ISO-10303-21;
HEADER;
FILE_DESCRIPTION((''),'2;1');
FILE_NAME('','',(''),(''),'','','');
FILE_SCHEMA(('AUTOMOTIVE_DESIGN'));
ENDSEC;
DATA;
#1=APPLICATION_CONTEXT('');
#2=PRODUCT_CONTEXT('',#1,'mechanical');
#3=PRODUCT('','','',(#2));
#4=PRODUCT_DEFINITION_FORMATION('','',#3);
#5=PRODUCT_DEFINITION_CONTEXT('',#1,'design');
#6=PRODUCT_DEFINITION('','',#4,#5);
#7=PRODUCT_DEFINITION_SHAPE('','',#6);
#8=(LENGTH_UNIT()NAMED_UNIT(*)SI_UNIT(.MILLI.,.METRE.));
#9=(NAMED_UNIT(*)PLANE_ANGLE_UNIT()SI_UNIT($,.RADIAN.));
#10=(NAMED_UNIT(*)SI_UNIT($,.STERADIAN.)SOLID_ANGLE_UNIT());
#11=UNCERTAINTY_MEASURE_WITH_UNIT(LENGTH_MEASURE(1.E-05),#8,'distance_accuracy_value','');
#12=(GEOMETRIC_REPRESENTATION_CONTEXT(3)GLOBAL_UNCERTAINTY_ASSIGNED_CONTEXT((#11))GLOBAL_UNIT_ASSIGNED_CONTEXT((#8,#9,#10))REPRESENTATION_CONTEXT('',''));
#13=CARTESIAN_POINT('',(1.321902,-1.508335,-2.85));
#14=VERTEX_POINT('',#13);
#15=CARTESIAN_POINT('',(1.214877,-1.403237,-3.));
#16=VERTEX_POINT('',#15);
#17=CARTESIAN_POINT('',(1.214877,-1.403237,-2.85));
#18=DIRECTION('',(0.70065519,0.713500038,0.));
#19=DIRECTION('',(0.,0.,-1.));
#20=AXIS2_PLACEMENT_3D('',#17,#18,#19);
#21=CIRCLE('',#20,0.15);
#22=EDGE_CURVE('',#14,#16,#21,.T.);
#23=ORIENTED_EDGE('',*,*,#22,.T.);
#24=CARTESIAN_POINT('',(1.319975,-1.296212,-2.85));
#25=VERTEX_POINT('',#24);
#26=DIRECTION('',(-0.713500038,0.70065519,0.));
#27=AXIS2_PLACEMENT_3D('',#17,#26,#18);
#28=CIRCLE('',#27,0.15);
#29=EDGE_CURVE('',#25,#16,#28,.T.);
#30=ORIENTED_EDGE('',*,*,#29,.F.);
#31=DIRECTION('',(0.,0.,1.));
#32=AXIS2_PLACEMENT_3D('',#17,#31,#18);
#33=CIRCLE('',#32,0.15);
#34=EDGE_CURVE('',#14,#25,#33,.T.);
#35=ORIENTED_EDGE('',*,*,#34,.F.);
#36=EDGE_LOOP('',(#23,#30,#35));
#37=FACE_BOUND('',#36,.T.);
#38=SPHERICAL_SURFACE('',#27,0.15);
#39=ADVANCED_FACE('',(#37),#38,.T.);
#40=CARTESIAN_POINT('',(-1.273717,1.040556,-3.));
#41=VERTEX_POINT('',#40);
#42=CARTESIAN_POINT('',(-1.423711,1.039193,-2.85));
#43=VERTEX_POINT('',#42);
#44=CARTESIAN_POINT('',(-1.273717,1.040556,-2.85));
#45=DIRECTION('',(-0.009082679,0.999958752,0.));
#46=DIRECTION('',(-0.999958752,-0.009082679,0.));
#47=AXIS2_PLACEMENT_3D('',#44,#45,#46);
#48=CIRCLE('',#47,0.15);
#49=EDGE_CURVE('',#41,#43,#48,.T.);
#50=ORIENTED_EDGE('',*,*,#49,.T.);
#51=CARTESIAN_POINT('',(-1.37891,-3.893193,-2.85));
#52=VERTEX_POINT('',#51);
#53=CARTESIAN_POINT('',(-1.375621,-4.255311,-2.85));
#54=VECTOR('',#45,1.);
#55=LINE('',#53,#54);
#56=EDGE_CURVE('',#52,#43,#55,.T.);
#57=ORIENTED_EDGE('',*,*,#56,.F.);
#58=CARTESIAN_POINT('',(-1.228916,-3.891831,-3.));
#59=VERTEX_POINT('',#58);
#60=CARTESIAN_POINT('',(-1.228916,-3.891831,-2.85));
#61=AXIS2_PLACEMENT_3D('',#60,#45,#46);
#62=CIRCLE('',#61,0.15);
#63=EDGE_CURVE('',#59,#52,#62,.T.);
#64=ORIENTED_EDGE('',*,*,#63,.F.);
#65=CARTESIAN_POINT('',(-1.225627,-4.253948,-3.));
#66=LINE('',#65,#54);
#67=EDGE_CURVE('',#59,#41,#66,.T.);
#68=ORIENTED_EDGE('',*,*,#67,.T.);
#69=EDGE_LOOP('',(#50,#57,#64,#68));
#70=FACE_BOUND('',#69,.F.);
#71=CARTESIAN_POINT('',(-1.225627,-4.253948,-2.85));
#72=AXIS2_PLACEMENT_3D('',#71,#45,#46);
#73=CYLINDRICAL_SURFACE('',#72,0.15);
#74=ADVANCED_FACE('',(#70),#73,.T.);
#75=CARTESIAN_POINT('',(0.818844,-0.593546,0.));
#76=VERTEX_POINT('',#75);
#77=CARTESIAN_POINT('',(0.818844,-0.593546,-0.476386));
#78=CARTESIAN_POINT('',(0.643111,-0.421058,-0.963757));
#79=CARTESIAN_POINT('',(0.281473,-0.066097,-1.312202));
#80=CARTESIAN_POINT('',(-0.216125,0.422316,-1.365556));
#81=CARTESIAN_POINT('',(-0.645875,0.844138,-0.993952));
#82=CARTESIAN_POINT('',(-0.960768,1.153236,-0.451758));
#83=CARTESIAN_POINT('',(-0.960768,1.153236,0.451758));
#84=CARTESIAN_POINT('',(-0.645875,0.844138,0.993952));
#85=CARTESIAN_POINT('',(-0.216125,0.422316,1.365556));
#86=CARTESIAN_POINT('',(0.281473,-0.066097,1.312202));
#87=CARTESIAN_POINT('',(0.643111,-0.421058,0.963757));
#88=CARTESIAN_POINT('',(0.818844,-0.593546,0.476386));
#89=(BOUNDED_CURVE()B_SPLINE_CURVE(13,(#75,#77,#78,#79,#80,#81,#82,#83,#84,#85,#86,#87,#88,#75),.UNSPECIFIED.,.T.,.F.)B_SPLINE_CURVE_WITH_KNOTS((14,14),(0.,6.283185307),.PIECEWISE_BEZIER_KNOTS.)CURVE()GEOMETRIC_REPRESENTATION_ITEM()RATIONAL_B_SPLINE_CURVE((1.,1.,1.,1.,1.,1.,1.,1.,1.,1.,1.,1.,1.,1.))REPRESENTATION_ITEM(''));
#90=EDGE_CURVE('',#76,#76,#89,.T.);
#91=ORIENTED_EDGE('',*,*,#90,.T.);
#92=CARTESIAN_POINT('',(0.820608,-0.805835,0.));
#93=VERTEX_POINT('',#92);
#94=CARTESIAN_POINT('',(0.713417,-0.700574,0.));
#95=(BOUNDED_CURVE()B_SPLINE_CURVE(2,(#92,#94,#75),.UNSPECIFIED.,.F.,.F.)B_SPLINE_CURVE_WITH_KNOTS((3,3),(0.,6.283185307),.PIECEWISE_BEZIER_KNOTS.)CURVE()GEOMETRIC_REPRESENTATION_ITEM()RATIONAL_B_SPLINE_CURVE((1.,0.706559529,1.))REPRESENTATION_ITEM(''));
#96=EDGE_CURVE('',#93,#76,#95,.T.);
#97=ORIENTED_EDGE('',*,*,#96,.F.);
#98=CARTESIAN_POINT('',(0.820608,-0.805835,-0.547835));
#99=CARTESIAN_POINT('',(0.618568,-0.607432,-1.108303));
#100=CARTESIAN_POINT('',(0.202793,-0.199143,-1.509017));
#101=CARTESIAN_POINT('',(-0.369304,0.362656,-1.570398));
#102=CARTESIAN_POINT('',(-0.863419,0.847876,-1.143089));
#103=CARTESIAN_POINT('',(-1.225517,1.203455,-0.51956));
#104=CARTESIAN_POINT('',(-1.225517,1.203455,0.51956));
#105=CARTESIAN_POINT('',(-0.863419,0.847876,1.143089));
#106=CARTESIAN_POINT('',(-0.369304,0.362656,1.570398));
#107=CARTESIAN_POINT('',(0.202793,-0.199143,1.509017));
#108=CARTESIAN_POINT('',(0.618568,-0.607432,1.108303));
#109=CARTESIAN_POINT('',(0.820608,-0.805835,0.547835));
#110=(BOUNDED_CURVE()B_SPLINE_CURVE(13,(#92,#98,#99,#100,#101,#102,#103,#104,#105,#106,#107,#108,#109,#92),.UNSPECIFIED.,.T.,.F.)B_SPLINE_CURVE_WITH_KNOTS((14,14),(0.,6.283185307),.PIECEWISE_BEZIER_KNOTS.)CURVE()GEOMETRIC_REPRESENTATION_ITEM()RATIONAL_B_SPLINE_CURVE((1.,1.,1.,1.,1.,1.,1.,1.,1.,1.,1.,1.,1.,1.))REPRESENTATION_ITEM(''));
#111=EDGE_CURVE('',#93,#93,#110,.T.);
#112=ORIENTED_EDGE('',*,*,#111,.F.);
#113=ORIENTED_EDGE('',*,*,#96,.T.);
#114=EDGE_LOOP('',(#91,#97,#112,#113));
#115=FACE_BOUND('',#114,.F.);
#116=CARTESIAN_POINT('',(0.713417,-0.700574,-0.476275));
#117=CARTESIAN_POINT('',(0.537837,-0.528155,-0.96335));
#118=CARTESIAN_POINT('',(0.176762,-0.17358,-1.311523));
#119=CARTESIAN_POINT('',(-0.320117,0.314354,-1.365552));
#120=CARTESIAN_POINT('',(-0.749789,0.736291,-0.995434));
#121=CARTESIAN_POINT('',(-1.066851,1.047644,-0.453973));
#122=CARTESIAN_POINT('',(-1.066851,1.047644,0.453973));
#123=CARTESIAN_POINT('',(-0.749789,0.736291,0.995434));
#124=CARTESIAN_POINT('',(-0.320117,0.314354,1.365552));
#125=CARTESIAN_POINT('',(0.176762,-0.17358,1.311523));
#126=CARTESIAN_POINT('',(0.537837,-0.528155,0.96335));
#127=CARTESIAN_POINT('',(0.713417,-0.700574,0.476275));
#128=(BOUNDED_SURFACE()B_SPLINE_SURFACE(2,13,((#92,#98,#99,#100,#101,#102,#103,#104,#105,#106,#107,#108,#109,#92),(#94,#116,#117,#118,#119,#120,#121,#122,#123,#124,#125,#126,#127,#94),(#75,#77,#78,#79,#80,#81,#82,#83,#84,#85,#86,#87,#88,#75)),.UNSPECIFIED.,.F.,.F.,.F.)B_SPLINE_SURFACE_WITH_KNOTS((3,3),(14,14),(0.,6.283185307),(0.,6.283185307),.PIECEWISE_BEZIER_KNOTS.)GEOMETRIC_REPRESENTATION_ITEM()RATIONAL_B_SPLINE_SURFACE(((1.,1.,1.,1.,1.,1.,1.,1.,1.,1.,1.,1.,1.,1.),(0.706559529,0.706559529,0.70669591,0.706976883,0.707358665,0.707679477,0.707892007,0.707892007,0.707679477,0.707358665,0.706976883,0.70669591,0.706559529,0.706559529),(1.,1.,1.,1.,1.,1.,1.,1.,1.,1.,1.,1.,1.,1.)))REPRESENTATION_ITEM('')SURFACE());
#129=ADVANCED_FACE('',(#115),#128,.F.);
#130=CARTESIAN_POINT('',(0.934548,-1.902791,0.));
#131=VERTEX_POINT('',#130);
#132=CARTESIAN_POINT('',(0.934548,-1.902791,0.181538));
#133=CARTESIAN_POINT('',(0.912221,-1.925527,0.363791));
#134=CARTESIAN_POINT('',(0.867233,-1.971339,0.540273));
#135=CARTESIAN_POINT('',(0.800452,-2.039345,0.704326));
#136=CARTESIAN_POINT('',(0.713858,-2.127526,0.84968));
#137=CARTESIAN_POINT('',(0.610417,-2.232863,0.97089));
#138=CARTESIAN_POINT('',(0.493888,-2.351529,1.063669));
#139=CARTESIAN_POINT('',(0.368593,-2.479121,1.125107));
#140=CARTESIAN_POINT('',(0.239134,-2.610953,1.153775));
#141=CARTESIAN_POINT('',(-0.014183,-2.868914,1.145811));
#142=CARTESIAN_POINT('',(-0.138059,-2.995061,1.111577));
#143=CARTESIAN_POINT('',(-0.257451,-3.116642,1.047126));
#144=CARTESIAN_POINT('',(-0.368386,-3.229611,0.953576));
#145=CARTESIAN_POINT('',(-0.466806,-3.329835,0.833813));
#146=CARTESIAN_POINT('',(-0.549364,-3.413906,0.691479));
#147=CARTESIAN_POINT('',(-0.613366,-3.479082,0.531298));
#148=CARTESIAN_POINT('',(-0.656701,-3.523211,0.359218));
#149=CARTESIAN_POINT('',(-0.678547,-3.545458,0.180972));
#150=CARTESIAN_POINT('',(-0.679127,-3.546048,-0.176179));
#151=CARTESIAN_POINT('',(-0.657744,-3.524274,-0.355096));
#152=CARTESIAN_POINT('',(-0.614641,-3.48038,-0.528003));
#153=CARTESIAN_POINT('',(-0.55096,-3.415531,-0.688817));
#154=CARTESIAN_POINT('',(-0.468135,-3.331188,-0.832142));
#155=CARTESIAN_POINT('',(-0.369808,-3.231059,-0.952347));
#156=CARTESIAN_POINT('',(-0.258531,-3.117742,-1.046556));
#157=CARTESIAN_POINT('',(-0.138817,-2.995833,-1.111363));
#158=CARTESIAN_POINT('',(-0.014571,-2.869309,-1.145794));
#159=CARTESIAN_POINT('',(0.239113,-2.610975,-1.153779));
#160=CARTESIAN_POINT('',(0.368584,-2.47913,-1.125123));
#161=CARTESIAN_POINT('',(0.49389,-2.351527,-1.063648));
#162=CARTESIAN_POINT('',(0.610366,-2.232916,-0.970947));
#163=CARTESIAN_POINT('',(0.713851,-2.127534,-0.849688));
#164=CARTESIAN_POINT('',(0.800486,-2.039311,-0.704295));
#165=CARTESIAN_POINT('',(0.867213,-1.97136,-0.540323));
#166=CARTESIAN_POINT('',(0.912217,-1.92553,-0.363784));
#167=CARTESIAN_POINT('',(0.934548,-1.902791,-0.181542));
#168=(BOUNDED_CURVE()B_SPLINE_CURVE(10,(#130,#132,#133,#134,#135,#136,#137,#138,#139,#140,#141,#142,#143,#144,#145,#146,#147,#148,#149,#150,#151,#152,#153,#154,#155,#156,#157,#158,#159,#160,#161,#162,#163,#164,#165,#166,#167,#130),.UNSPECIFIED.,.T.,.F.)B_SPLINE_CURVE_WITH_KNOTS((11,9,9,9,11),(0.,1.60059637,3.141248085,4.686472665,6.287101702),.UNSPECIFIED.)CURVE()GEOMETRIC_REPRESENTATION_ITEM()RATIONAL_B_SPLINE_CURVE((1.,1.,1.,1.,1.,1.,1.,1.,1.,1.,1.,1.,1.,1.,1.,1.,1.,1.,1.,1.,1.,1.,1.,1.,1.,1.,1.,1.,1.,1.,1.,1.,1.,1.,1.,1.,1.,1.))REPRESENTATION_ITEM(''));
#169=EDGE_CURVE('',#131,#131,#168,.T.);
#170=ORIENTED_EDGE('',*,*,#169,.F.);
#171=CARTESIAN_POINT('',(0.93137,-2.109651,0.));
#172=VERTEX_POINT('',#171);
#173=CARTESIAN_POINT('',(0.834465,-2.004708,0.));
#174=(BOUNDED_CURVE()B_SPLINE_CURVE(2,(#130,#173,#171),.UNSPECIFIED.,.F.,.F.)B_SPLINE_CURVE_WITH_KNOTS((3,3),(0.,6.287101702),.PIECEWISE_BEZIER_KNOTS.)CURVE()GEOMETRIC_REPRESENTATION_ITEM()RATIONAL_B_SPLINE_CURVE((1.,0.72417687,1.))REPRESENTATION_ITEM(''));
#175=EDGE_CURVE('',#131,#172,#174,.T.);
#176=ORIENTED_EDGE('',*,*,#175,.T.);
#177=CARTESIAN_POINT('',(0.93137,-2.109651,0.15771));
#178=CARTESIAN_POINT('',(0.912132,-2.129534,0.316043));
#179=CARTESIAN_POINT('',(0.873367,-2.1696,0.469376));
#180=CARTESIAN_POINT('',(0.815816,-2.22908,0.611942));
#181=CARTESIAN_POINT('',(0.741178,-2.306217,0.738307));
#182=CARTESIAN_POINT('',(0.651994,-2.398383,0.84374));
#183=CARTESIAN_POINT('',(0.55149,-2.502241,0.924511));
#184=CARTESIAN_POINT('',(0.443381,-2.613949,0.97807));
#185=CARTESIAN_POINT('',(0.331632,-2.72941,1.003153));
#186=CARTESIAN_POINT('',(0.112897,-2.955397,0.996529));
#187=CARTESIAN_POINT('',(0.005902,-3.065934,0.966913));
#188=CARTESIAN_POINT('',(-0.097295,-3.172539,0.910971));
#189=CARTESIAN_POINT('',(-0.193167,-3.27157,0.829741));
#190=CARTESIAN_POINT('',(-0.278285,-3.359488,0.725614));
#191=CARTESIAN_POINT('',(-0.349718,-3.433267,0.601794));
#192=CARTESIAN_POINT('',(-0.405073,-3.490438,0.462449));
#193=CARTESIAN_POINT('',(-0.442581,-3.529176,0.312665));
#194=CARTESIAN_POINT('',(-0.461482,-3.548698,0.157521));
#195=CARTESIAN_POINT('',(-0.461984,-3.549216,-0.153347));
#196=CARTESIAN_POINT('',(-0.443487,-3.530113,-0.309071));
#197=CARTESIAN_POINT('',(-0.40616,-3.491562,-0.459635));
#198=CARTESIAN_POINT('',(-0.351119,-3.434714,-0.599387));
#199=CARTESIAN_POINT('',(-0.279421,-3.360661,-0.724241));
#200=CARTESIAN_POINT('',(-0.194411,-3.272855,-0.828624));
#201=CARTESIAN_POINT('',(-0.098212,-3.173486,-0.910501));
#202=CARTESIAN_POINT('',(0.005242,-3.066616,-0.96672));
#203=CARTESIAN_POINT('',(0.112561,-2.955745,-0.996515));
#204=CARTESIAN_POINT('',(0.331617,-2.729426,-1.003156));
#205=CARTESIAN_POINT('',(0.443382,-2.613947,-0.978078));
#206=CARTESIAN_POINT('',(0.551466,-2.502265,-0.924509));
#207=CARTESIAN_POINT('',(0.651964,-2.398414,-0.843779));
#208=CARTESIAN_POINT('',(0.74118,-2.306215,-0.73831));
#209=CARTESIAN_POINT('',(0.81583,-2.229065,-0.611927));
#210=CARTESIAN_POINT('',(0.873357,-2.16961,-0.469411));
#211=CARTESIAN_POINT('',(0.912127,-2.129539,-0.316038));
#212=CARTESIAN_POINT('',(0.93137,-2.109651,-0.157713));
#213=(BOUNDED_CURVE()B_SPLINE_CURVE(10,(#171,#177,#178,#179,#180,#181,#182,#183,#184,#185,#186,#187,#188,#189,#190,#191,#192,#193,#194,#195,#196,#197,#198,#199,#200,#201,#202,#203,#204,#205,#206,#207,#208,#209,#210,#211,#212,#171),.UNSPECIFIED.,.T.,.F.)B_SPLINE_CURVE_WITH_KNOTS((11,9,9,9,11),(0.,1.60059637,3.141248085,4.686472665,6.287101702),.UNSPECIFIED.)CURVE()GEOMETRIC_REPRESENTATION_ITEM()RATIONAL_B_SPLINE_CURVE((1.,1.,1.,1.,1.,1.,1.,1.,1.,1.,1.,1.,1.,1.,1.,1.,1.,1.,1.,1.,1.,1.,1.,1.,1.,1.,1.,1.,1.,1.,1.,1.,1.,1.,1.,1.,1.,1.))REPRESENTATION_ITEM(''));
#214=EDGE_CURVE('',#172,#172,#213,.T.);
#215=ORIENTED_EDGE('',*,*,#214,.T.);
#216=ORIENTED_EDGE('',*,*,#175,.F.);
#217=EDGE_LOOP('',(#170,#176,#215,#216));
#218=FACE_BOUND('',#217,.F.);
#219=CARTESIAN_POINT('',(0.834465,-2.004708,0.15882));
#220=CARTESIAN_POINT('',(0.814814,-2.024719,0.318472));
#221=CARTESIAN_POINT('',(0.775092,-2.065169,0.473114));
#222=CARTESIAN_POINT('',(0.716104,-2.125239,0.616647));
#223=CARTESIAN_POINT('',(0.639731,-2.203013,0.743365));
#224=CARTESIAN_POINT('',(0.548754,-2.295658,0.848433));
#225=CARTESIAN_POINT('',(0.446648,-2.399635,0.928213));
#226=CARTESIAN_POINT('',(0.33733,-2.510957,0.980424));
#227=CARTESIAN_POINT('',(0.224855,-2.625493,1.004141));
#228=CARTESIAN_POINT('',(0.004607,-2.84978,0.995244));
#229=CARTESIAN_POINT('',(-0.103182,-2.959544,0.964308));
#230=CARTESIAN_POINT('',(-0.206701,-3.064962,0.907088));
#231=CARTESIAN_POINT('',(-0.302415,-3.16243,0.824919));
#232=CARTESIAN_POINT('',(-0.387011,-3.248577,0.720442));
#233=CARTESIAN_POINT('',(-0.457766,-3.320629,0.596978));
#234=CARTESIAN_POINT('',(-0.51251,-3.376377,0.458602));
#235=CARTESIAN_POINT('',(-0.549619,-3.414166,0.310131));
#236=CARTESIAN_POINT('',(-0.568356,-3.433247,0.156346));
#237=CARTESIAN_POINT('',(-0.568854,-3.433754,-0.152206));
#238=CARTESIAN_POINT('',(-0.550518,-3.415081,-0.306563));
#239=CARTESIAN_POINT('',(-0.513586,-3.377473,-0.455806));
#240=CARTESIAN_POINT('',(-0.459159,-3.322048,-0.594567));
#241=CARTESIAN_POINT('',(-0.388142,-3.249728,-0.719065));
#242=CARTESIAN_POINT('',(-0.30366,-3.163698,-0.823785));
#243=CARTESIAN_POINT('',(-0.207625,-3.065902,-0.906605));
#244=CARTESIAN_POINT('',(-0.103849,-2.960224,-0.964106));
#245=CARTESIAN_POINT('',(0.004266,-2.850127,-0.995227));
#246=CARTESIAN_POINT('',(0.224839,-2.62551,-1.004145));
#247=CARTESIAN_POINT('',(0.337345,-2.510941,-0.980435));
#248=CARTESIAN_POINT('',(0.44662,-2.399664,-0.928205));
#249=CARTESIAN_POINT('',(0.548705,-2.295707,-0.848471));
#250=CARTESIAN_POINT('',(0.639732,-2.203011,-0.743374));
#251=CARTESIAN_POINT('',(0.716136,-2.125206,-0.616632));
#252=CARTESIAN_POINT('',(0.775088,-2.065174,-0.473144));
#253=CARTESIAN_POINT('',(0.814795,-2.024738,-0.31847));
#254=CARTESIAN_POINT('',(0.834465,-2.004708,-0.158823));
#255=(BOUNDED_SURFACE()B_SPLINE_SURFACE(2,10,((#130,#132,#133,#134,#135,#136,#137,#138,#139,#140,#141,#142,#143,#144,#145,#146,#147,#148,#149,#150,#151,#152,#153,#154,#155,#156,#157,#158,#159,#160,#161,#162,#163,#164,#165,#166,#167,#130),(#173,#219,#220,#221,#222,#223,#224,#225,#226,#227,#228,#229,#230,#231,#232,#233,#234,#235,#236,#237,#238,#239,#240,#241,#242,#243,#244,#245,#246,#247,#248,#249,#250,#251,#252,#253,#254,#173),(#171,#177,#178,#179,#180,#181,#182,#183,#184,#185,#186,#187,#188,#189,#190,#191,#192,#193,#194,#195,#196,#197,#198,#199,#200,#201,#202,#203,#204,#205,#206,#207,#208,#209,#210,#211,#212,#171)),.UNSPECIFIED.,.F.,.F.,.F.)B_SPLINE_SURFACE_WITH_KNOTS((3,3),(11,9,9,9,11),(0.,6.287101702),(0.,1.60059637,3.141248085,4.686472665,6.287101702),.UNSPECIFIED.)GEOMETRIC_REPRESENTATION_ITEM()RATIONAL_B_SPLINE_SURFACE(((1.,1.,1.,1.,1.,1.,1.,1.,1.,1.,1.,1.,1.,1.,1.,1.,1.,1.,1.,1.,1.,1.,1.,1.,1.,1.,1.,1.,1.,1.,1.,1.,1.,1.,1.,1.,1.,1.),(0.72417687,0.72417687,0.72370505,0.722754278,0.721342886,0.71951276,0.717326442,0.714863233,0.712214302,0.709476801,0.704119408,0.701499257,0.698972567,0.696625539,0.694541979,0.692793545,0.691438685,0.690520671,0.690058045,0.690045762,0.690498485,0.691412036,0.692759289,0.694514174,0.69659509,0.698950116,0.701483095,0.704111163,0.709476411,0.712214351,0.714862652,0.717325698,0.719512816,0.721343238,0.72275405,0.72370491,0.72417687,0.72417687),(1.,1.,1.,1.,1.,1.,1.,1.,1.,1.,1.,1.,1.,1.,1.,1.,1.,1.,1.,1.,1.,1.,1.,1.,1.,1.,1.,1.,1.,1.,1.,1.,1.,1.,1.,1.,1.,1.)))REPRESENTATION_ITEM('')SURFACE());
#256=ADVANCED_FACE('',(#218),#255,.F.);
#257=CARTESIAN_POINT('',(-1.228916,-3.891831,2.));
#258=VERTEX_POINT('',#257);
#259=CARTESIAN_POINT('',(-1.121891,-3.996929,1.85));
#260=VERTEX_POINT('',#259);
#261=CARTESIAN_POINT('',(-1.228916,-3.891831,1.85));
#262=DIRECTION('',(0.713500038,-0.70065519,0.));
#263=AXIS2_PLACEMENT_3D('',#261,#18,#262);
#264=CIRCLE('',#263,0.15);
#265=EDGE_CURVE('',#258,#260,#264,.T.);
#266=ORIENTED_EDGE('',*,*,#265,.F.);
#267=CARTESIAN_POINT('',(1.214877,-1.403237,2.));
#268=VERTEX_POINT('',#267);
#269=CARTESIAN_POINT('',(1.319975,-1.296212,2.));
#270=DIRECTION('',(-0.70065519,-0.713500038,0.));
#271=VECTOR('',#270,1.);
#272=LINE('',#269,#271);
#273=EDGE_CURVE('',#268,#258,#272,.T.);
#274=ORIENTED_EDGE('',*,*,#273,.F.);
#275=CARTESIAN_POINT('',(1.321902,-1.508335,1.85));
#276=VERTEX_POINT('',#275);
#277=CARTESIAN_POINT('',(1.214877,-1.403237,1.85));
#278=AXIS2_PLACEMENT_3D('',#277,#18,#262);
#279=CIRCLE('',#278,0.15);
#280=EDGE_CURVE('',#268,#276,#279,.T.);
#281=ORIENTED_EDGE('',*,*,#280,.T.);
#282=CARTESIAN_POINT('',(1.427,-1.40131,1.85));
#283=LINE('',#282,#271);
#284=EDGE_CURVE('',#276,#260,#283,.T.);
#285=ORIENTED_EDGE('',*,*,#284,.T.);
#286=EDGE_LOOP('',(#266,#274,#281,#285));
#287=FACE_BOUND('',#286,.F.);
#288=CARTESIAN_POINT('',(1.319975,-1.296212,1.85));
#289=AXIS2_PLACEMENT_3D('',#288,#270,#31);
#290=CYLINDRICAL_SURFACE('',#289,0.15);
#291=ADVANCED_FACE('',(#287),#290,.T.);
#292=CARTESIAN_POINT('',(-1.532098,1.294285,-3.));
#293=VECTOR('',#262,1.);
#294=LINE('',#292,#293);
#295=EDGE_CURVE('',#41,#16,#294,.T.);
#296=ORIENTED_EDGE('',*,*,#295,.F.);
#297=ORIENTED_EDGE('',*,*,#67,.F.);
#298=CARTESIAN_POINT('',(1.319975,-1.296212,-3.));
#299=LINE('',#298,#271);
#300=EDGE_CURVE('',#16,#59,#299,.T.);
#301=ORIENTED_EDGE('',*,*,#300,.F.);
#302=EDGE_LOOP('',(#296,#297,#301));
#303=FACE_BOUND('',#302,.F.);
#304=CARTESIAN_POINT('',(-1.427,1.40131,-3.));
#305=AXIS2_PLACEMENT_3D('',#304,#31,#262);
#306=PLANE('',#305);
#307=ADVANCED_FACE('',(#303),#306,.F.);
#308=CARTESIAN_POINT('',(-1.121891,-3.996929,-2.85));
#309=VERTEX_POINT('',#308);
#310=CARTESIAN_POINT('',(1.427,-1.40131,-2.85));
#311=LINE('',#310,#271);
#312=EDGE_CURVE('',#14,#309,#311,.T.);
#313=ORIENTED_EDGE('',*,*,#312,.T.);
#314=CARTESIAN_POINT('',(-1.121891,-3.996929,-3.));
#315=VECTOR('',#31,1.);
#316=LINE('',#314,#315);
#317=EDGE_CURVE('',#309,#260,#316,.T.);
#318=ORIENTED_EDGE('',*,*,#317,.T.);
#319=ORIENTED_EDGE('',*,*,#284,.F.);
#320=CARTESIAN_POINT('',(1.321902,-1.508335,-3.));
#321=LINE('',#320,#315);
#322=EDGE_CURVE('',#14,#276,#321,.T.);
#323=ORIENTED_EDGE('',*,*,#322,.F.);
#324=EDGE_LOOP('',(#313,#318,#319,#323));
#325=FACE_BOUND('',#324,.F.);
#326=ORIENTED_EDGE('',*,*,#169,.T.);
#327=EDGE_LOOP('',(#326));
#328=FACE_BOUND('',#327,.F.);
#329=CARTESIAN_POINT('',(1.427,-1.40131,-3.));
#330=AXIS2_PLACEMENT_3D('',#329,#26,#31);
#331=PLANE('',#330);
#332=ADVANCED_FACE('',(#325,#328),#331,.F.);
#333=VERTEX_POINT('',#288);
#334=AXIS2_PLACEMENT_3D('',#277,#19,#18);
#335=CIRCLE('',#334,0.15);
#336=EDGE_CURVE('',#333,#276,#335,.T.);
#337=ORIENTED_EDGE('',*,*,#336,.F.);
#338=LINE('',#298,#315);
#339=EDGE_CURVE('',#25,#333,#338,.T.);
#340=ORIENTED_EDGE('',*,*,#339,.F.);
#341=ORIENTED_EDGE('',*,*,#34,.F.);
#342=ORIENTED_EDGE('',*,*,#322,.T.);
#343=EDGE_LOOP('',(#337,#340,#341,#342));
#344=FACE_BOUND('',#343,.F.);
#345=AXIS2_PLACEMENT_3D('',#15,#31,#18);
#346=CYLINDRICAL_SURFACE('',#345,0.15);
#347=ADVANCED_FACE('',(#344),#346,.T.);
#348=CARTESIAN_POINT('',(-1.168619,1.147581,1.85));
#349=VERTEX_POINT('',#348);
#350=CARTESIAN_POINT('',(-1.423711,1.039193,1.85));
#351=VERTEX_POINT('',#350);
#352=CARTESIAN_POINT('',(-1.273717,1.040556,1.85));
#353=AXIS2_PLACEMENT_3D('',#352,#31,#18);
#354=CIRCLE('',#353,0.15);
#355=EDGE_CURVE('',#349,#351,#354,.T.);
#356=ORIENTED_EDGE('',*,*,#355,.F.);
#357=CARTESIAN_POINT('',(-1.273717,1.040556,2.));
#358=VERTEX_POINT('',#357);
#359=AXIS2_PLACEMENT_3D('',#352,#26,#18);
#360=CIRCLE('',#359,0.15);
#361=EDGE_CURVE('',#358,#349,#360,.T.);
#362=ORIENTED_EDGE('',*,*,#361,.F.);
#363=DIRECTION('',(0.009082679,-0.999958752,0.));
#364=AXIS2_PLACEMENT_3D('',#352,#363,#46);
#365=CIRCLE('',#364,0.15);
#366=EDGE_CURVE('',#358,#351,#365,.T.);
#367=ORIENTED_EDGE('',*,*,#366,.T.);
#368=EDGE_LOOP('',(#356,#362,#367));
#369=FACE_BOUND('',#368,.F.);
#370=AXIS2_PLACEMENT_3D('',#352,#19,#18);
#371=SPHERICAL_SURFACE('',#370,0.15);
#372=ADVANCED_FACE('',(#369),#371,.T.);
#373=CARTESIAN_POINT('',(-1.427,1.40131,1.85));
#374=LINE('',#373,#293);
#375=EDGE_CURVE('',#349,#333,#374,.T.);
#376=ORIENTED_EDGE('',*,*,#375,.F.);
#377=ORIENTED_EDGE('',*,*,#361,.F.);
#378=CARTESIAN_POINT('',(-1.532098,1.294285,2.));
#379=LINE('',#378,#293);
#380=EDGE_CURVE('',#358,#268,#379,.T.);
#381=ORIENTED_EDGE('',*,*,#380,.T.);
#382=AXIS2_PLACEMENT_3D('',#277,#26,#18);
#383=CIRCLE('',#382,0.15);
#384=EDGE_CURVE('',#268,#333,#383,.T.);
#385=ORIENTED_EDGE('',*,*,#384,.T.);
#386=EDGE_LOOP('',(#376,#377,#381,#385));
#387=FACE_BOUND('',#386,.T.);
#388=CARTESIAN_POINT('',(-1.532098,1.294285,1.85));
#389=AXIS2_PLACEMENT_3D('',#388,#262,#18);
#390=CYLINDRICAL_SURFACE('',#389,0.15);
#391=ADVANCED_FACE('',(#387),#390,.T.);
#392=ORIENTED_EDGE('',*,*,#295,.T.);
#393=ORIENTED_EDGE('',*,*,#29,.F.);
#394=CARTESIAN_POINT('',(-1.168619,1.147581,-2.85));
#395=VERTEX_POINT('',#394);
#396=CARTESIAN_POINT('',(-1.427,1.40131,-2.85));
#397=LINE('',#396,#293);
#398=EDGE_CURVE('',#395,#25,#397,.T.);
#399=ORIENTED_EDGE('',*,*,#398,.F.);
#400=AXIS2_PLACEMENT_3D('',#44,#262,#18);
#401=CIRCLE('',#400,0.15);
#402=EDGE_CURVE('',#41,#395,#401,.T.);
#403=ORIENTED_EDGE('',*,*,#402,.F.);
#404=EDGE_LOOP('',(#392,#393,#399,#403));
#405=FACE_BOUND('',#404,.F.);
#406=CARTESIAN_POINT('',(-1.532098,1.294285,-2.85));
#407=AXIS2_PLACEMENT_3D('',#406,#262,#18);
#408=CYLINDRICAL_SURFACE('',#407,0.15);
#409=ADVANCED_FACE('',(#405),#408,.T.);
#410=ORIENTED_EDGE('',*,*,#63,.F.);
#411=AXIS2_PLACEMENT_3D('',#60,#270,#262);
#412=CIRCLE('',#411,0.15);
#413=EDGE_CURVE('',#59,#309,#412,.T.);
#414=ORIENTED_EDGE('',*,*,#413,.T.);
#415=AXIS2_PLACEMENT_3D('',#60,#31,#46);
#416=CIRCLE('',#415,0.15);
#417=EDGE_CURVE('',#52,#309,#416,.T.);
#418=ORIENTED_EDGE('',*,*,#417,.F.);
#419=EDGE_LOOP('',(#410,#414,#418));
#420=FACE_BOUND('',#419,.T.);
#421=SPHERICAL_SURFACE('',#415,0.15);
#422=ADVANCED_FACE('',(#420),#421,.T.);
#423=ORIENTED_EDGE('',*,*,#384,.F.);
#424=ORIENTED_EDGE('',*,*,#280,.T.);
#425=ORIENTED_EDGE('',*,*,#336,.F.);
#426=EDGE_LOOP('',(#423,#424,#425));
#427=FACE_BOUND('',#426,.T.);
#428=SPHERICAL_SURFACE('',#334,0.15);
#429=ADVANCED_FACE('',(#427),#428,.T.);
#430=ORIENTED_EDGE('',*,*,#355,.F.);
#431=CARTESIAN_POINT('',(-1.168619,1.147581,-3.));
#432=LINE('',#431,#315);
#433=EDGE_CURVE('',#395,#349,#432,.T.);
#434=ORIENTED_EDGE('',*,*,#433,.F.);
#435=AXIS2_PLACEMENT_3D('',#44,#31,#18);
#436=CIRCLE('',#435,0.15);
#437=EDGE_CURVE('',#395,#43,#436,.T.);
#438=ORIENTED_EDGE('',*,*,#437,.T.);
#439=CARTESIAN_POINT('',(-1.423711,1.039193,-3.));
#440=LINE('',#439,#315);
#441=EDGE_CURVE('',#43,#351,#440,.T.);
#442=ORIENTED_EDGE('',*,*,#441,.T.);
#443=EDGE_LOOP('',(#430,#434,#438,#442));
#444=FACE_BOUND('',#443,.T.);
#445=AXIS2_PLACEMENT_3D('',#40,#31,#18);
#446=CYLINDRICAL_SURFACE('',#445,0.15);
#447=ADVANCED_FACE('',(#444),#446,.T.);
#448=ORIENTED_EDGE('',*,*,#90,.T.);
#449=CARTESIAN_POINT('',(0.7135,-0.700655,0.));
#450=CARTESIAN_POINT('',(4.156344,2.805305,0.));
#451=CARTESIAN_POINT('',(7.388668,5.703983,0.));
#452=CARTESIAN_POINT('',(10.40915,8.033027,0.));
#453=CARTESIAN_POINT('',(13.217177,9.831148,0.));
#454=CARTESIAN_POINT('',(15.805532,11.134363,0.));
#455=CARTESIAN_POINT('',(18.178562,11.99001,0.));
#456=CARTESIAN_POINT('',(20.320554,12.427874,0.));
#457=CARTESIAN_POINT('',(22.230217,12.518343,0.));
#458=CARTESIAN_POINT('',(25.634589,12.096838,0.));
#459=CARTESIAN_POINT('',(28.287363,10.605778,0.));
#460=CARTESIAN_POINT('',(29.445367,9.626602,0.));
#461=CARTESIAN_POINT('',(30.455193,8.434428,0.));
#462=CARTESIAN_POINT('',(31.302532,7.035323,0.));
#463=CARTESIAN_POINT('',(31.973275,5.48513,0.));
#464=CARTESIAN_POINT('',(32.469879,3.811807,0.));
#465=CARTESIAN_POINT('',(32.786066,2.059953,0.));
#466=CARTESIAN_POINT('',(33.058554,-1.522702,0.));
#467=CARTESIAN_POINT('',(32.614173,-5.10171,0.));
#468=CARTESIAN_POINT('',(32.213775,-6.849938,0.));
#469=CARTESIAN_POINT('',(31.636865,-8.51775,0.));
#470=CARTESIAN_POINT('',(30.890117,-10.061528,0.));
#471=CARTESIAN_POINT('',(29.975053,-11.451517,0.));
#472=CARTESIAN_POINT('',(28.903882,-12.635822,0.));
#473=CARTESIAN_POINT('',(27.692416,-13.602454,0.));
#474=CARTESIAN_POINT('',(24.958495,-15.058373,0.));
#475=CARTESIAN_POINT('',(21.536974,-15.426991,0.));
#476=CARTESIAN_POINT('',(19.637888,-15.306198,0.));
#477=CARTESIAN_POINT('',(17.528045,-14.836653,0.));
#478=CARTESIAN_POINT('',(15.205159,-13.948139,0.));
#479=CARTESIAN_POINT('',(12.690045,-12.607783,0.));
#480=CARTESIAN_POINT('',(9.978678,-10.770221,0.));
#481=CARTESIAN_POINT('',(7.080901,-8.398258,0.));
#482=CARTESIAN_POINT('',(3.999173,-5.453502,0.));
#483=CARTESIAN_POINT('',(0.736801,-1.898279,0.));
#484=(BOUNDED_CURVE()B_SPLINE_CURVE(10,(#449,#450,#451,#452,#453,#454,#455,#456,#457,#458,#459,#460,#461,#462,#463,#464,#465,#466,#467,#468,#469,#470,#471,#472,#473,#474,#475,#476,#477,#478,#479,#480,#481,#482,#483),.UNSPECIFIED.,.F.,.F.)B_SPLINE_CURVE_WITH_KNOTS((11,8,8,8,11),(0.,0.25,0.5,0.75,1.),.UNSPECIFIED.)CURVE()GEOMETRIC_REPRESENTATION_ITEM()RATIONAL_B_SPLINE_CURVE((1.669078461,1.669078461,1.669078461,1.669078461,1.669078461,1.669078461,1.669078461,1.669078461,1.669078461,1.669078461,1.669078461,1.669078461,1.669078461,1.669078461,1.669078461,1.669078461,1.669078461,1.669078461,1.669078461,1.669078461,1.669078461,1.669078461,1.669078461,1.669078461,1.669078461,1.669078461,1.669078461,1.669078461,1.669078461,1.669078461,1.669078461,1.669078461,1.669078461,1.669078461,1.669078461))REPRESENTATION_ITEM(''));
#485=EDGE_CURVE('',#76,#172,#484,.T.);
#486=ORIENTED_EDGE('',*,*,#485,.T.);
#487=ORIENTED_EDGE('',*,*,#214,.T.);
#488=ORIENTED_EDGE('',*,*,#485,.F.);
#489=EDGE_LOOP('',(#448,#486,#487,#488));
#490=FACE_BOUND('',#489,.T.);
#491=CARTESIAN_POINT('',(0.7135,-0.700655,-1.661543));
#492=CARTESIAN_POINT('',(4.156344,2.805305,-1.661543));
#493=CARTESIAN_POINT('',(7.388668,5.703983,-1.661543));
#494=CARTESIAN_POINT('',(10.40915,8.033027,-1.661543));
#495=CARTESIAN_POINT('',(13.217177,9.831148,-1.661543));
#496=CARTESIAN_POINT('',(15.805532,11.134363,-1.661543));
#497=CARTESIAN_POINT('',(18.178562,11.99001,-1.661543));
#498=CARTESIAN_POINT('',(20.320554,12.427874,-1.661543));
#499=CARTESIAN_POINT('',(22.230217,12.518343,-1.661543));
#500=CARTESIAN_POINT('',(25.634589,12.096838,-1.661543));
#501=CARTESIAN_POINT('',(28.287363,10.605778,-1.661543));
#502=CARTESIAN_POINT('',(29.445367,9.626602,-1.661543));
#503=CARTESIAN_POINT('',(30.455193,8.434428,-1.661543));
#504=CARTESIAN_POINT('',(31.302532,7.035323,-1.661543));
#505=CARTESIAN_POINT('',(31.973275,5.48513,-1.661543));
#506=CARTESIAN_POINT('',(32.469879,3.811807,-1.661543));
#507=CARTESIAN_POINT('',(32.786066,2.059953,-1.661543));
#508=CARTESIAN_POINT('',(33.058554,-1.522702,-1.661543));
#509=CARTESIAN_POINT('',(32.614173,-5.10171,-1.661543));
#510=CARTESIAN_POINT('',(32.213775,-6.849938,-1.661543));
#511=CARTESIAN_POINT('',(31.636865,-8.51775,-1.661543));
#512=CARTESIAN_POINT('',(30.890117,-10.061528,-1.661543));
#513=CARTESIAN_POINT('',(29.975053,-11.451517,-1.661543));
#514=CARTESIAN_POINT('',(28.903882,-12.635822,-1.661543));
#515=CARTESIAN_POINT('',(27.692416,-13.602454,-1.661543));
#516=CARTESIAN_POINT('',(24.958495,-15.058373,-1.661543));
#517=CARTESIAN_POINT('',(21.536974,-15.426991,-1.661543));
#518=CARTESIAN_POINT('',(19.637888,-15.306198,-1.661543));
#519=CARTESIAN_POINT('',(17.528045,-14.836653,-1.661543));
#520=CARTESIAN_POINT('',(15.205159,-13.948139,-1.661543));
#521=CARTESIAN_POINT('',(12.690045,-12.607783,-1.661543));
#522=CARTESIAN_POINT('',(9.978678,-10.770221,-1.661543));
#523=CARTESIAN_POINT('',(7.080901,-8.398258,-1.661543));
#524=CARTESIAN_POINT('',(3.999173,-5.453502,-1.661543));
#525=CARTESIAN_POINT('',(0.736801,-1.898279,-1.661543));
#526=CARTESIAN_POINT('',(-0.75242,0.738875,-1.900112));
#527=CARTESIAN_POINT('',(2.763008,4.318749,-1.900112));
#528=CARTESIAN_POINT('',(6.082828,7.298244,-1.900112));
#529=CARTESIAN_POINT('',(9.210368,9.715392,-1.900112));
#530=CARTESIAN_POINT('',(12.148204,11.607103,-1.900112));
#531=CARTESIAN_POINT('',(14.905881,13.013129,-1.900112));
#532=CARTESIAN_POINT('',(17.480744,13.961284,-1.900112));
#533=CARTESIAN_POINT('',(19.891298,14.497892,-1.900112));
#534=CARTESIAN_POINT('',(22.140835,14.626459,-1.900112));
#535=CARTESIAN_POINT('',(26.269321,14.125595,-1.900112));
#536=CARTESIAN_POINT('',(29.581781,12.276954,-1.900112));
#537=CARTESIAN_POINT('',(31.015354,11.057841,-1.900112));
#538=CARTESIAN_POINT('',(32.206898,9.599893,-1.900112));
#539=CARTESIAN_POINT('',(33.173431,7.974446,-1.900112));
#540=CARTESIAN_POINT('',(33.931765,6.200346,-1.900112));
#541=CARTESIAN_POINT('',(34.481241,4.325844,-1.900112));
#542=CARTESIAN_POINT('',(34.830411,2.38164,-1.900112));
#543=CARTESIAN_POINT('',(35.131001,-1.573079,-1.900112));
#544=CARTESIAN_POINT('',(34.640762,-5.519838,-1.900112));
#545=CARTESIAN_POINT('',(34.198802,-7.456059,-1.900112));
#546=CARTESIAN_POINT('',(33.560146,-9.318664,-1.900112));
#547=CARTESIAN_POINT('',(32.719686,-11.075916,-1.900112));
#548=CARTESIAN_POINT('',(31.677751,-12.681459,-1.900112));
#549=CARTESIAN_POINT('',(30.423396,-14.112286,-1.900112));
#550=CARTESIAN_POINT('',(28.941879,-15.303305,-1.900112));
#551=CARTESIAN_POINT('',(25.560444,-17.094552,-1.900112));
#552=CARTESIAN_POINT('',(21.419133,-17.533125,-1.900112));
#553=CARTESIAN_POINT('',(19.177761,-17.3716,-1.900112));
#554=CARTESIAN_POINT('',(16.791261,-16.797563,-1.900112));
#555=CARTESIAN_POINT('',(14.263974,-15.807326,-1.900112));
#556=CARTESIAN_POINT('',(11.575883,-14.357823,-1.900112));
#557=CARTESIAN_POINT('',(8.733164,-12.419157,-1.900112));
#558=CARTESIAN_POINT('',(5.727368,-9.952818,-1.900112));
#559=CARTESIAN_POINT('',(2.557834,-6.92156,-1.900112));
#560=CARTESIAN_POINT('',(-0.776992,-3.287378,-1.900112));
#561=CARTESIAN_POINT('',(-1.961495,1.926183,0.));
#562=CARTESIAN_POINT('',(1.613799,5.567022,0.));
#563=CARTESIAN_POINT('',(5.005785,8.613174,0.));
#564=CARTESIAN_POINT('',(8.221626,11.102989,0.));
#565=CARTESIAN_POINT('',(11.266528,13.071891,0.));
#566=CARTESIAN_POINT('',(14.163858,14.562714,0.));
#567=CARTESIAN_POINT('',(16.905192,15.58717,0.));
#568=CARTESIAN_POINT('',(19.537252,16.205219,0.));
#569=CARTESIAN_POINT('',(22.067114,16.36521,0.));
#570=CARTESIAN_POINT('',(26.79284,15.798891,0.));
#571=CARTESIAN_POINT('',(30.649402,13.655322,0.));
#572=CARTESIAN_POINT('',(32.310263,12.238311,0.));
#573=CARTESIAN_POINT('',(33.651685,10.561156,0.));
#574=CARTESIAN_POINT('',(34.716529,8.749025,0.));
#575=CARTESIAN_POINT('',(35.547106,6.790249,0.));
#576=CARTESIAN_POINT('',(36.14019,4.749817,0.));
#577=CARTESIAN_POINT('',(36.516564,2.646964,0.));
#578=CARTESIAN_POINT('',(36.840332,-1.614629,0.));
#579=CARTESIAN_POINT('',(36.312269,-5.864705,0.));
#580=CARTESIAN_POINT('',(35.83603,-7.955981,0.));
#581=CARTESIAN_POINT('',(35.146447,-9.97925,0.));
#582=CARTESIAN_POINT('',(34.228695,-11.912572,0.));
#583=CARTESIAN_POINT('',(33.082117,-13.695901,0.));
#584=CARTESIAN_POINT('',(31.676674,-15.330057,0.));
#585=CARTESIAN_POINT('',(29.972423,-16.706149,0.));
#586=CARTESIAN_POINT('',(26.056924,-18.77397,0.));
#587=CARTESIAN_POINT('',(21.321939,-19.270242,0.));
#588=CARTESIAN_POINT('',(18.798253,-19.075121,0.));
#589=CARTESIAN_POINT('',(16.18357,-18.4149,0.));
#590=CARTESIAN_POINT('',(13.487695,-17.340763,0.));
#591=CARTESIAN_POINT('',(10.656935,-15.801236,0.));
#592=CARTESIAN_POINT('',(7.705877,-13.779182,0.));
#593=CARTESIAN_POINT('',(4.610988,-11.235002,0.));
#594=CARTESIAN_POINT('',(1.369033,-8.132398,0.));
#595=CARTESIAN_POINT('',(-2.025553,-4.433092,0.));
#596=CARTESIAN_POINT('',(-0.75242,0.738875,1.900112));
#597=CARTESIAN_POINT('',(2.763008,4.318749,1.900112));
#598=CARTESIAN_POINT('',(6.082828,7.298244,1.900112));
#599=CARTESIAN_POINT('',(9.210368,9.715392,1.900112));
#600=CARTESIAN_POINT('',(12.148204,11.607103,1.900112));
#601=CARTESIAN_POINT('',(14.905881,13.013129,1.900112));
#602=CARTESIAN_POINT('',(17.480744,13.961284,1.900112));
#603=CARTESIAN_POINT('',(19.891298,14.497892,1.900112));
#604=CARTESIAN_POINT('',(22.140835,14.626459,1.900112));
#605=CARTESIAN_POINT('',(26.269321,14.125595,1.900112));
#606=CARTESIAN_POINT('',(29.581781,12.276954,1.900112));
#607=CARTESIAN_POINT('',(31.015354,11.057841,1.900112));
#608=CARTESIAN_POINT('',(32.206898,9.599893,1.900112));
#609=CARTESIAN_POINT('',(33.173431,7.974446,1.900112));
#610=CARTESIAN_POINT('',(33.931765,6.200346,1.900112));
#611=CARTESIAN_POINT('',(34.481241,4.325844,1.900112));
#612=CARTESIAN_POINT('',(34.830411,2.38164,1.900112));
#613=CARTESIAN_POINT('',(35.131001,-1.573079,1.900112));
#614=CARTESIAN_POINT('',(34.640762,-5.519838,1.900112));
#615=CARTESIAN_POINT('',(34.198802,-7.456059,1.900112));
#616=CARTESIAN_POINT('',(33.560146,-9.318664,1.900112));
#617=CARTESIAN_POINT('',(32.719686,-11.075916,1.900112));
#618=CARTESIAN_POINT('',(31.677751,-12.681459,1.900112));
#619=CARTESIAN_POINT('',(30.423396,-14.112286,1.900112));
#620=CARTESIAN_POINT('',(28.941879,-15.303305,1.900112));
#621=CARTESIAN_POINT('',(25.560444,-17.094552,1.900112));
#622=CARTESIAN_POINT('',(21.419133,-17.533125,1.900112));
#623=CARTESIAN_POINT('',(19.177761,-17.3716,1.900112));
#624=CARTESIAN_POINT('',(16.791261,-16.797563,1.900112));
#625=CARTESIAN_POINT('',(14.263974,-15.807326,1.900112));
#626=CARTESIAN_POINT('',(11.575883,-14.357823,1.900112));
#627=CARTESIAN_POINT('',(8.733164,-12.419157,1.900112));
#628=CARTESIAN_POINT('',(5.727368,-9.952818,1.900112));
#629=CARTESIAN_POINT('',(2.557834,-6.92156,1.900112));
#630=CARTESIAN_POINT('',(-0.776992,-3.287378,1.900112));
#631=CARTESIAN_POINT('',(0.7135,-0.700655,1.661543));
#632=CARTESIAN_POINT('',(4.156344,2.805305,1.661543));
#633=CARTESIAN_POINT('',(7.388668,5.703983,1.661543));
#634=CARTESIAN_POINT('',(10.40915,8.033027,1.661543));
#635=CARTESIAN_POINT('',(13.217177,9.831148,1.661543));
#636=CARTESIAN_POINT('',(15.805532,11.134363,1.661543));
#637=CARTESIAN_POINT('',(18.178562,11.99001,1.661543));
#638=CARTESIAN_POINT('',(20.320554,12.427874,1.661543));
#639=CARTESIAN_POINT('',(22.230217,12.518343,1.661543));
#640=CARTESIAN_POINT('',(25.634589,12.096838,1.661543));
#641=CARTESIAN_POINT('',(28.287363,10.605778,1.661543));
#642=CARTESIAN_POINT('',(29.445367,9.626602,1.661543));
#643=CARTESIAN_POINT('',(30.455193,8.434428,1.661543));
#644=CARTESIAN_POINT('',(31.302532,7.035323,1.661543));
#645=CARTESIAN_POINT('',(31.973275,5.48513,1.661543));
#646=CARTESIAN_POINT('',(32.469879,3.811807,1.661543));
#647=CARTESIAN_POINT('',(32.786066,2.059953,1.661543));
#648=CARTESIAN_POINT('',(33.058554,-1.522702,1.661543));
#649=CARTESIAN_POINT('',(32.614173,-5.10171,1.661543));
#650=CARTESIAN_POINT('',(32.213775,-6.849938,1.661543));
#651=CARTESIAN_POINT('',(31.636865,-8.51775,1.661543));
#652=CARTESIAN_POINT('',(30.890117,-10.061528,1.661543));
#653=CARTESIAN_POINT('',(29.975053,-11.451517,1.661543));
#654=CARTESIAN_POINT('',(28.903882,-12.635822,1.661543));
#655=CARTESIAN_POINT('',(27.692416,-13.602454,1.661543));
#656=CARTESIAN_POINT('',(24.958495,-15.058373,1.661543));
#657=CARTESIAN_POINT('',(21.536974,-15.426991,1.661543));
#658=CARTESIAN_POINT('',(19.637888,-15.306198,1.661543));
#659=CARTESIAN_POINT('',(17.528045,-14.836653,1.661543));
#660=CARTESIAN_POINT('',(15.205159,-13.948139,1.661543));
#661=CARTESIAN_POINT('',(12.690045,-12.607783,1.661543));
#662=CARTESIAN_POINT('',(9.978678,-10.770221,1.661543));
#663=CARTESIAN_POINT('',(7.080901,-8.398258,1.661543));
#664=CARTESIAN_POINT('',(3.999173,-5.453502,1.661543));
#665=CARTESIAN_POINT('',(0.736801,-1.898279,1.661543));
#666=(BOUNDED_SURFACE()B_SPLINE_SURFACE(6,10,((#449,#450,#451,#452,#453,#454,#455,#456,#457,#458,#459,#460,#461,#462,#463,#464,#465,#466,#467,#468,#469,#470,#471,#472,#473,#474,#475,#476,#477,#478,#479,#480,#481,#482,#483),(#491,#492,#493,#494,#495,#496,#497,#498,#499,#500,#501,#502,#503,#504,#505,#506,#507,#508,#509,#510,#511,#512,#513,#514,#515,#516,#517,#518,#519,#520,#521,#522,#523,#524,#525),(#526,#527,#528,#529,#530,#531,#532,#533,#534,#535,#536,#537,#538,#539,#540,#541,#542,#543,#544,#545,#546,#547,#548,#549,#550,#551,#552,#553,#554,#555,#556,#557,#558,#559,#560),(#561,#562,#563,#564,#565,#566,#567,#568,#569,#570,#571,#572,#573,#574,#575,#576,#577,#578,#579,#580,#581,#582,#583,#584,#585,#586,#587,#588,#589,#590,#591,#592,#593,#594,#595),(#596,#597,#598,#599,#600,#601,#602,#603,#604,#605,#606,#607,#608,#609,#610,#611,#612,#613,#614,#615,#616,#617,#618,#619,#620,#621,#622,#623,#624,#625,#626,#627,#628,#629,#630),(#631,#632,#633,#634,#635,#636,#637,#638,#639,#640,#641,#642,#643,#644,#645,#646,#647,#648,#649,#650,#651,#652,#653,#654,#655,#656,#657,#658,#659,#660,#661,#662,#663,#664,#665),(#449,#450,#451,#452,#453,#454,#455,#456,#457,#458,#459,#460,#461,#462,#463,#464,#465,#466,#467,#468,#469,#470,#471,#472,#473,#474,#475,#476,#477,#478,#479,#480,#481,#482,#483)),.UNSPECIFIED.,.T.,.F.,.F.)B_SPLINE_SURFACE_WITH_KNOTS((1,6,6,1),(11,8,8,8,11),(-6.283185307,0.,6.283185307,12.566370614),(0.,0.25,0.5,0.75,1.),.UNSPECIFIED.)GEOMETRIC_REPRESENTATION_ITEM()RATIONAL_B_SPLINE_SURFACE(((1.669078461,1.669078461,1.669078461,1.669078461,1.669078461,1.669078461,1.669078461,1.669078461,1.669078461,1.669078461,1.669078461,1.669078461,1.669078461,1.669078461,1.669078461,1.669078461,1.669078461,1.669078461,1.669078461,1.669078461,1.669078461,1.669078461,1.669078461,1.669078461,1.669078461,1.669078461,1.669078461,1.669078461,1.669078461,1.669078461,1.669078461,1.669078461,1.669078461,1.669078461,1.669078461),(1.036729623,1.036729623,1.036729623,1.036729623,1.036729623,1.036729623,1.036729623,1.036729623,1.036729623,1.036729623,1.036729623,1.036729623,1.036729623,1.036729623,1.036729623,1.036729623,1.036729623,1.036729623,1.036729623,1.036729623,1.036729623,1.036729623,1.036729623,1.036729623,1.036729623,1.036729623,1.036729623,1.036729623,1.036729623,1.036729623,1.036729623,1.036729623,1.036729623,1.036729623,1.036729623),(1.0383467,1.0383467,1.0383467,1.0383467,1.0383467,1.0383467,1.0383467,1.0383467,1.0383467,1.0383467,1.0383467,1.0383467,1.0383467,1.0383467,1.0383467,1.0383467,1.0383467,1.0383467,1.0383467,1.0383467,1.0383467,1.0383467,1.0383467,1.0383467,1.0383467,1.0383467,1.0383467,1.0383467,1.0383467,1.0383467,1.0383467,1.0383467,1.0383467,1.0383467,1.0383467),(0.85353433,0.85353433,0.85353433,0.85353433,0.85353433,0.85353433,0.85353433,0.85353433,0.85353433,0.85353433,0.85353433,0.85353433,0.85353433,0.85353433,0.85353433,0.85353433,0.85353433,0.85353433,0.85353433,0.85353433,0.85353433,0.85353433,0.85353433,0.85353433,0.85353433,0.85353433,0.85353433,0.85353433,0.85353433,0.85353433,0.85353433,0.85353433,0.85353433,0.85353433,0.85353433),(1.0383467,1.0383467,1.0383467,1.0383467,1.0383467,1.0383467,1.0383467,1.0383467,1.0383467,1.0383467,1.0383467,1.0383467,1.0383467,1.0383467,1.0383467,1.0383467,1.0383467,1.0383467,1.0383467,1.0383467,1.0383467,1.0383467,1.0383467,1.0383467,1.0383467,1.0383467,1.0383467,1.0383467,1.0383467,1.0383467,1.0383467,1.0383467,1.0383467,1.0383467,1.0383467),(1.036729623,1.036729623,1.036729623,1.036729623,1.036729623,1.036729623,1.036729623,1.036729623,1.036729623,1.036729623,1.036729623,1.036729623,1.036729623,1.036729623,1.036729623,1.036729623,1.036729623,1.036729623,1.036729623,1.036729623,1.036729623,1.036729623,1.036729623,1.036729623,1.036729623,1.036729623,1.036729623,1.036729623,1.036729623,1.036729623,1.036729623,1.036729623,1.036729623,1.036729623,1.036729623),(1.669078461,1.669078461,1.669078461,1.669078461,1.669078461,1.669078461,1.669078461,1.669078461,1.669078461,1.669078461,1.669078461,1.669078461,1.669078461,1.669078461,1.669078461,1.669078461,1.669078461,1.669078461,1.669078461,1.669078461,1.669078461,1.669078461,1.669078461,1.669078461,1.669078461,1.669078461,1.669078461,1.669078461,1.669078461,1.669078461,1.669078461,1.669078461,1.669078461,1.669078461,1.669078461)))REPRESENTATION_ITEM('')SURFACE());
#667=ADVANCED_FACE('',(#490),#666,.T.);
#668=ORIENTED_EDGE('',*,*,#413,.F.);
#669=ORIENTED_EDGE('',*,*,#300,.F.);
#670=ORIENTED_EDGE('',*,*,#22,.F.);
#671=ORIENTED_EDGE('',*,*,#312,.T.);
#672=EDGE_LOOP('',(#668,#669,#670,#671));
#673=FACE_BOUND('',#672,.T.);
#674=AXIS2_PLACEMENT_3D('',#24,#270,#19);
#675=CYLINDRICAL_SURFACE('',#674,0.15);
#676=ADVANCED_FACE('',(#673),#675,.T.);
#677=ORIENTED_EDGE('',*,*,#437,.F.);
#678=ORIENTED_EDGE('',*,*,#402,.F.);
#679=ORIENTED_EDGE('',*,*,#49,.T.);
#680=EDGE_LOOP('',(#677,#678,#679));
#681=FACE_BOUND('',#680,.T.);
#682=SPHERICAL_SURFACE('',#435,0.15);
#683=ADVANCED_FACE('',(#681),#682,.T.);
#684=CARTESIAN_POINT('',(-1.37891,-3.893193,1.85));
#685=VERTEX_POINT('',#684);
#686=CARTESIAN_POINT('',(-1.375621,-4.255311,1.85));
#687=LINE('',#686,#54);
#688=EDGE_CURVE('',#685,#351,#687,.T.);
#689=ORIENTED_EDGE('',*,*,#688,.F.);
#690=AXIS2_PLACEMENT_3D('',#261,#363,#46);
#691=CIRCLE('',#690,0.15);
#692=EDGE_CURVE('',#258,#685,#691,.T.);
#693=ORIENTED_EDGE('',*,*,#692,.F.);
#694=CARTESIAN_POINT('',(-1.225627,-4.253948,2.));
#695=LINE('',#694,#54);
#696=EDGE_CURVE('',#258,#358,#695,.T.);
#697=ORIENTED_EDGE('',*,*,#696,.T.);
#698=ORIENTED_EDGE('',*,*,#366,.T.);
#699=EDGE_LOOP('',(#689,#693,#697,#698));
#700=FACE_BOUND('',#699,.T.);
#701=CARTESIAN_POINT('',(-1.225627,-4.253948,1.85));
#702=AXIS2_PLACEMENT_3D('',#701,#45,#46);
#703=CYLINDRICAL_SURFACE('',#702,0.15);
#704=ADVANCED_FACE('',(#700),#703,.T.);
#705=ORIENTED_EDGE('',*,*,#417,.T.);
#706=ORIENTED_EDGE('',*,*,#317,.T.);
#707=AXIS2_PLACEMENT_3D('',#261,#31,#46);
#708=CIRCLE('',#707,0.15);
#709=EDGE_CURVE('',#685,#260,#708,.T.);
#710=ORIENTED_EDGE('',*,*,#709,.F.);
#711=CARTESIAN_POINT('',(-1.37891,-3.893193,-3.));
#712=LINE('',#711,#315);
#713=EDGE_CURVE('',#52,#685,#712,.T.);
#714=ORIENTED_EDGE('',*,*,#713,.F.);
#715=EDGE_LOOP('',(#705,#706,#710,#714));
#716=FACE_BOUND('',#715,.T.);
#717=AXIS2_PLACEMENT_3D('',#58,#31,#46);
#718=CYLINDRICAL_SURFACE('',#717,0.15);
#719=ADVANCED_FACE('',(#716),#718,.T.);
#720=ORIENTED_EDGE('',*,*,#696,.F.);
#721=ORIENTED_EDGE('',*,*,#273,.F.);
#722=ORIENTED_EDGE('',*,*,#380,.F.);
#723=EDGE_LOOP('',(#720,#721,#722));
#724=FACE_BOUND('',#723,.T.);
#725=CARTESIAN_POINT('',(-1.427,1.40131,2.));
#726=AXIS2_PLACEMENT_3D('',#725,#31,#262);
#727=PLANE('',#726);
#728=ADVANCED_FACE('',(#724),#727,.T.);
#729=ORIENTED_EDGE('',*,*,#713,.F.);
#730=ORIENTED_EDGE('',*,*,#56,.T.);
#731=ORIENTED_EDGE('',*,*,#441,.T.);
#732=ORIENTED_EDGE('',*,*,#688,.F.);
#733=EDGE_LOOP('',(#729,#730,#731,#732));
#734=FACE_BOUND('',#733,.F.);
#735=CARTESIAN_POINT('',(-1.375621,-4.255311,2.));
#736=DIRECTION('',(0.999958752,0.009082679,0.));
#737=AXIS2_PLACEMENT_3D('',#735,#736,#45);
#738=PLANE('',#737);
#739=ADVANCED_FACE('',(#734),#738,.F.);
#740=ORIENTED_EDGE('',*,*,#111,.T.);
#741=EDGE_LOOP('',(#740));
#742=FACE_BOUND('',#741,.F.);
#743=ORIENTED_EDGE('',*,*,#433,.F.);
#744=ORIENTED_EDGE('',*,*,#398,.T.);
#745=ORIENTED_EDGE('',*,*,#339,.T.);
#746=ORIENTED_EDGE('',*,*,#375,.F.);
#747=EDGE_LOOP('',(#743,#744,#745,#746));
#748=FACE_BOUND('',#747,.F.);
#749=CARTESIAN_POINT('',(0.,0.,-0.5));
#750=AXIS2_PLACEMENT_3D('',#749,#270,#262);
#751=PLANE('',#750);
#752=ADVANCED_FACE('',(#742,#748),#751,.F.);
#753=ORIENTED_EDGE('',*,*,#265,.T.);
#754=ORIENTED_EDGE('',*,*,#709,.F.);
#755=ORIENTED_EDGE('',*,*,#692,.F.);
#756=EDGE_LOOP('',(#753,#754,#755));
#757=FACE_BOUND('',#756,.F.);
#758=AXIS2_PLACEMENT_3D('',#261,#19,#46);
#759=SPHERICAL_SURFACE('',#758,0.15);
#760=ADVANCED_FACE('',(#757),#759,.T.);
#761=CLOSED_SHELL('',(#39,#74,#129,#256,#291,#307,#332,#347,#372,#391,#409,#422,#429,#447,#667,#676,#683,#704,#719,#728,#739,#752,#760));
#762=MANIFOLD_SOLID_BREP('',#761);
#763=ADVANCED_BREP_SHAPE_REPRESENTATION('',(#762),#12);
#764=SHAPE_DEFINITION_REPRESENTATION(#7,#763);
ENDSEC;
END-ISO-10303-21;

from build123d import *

# Parameters (mm, degrees)
SKETCH2_R           = 1
SKETCH3_W           = 4
SKETCH3_H           = 5
BOSS_EXTRUDE1_DEPTH = 4
CUT_EXTRUDE1_DEPTH  = 40.207148558
FILLET1_R           = 0.15


with BuildPart() as part:
    # Sweep1: sweep along a path in Sketch1
    with BuildLine() as sweep1_path:  # in the path sketch's own coordinates; laid on its plane below (add() does not lay a ready-made edge on the line's plane)
        add(Edge.make_bspline(
            [(0, 0), (46.375630859, 47.22581785), (43.968499802, -50.489782118), (0, -2.57438814)],
            knots=[0, 0, 0, 0, 1, 1, 1, 1], degree=3))
    # Sketch2 → Sweep1 (sweep)
    with BuildSketch(Plane(origin=(0, 0, 0), x_dir=(0.7135000381640686, -0.7006551901897771, 0), z_dir=(0.7006551901897771, 0.7135000381640686, 0))):
        Circle(SKETCH2_R)
    sweep(path=Plane.XY * sweep1_path.line)

    # Sketch3 → Boss-Extrude1 (add)
    with BuildSketch(Plane(origin=(0, 0, 0), x_dir=(0.7135000381640686, -0.7006551901897771, 0), z_dir=(-0.7006551901897771, -0.7135000381640686, 0))):
        with Locations((0, -0.5)):
            Rectangle(SKETCH3_W, SKETCH3_H)
    extrude(amount=BOSS_EXTRUDE1_DEPTH)

    # Sketch4 → Cut-Extrude1 (cut, through all)
    with BuildSketch(Plane.XY.offset(2)):
        Polygon((-1.375620684, -4.255310533), (-1.427000076, 1.40131038), (-7.009211047, 1.350606858), (-6.957831655, -4.306014055), align=None)
    extrude(amount=-CUT_EXTRUDE1_DEPTH, mode=Mode.SUBTRACT)

    # Fillet1
    fillet1_edges = [part.edges().sort_by_distance(p)[0] for p in [
        (-1.40131038, -1.427000076, 2),
        (-1.40131038, -1.427000076, -3),
        (-0.568513317, -3.433406769, 0),
        (-1.427000076, 1.40131038, -0.5),
        (0, 0, -3),
        (1.427000076, -1.40131038, -0.5),
        (0.025689696, -2.828310457, -3),
        (0, 0, 2),
        (0.025689696, -2.828310457, 2),
        (-1.375620684, -4.255310533, -0.5),
        (-0.7135000381640703, 0.7006551901897754, 1.6690853266252912e-11),
    ]]
    fillet(fillet1_edges, radius=FILLET1_R)


solid = part.part
